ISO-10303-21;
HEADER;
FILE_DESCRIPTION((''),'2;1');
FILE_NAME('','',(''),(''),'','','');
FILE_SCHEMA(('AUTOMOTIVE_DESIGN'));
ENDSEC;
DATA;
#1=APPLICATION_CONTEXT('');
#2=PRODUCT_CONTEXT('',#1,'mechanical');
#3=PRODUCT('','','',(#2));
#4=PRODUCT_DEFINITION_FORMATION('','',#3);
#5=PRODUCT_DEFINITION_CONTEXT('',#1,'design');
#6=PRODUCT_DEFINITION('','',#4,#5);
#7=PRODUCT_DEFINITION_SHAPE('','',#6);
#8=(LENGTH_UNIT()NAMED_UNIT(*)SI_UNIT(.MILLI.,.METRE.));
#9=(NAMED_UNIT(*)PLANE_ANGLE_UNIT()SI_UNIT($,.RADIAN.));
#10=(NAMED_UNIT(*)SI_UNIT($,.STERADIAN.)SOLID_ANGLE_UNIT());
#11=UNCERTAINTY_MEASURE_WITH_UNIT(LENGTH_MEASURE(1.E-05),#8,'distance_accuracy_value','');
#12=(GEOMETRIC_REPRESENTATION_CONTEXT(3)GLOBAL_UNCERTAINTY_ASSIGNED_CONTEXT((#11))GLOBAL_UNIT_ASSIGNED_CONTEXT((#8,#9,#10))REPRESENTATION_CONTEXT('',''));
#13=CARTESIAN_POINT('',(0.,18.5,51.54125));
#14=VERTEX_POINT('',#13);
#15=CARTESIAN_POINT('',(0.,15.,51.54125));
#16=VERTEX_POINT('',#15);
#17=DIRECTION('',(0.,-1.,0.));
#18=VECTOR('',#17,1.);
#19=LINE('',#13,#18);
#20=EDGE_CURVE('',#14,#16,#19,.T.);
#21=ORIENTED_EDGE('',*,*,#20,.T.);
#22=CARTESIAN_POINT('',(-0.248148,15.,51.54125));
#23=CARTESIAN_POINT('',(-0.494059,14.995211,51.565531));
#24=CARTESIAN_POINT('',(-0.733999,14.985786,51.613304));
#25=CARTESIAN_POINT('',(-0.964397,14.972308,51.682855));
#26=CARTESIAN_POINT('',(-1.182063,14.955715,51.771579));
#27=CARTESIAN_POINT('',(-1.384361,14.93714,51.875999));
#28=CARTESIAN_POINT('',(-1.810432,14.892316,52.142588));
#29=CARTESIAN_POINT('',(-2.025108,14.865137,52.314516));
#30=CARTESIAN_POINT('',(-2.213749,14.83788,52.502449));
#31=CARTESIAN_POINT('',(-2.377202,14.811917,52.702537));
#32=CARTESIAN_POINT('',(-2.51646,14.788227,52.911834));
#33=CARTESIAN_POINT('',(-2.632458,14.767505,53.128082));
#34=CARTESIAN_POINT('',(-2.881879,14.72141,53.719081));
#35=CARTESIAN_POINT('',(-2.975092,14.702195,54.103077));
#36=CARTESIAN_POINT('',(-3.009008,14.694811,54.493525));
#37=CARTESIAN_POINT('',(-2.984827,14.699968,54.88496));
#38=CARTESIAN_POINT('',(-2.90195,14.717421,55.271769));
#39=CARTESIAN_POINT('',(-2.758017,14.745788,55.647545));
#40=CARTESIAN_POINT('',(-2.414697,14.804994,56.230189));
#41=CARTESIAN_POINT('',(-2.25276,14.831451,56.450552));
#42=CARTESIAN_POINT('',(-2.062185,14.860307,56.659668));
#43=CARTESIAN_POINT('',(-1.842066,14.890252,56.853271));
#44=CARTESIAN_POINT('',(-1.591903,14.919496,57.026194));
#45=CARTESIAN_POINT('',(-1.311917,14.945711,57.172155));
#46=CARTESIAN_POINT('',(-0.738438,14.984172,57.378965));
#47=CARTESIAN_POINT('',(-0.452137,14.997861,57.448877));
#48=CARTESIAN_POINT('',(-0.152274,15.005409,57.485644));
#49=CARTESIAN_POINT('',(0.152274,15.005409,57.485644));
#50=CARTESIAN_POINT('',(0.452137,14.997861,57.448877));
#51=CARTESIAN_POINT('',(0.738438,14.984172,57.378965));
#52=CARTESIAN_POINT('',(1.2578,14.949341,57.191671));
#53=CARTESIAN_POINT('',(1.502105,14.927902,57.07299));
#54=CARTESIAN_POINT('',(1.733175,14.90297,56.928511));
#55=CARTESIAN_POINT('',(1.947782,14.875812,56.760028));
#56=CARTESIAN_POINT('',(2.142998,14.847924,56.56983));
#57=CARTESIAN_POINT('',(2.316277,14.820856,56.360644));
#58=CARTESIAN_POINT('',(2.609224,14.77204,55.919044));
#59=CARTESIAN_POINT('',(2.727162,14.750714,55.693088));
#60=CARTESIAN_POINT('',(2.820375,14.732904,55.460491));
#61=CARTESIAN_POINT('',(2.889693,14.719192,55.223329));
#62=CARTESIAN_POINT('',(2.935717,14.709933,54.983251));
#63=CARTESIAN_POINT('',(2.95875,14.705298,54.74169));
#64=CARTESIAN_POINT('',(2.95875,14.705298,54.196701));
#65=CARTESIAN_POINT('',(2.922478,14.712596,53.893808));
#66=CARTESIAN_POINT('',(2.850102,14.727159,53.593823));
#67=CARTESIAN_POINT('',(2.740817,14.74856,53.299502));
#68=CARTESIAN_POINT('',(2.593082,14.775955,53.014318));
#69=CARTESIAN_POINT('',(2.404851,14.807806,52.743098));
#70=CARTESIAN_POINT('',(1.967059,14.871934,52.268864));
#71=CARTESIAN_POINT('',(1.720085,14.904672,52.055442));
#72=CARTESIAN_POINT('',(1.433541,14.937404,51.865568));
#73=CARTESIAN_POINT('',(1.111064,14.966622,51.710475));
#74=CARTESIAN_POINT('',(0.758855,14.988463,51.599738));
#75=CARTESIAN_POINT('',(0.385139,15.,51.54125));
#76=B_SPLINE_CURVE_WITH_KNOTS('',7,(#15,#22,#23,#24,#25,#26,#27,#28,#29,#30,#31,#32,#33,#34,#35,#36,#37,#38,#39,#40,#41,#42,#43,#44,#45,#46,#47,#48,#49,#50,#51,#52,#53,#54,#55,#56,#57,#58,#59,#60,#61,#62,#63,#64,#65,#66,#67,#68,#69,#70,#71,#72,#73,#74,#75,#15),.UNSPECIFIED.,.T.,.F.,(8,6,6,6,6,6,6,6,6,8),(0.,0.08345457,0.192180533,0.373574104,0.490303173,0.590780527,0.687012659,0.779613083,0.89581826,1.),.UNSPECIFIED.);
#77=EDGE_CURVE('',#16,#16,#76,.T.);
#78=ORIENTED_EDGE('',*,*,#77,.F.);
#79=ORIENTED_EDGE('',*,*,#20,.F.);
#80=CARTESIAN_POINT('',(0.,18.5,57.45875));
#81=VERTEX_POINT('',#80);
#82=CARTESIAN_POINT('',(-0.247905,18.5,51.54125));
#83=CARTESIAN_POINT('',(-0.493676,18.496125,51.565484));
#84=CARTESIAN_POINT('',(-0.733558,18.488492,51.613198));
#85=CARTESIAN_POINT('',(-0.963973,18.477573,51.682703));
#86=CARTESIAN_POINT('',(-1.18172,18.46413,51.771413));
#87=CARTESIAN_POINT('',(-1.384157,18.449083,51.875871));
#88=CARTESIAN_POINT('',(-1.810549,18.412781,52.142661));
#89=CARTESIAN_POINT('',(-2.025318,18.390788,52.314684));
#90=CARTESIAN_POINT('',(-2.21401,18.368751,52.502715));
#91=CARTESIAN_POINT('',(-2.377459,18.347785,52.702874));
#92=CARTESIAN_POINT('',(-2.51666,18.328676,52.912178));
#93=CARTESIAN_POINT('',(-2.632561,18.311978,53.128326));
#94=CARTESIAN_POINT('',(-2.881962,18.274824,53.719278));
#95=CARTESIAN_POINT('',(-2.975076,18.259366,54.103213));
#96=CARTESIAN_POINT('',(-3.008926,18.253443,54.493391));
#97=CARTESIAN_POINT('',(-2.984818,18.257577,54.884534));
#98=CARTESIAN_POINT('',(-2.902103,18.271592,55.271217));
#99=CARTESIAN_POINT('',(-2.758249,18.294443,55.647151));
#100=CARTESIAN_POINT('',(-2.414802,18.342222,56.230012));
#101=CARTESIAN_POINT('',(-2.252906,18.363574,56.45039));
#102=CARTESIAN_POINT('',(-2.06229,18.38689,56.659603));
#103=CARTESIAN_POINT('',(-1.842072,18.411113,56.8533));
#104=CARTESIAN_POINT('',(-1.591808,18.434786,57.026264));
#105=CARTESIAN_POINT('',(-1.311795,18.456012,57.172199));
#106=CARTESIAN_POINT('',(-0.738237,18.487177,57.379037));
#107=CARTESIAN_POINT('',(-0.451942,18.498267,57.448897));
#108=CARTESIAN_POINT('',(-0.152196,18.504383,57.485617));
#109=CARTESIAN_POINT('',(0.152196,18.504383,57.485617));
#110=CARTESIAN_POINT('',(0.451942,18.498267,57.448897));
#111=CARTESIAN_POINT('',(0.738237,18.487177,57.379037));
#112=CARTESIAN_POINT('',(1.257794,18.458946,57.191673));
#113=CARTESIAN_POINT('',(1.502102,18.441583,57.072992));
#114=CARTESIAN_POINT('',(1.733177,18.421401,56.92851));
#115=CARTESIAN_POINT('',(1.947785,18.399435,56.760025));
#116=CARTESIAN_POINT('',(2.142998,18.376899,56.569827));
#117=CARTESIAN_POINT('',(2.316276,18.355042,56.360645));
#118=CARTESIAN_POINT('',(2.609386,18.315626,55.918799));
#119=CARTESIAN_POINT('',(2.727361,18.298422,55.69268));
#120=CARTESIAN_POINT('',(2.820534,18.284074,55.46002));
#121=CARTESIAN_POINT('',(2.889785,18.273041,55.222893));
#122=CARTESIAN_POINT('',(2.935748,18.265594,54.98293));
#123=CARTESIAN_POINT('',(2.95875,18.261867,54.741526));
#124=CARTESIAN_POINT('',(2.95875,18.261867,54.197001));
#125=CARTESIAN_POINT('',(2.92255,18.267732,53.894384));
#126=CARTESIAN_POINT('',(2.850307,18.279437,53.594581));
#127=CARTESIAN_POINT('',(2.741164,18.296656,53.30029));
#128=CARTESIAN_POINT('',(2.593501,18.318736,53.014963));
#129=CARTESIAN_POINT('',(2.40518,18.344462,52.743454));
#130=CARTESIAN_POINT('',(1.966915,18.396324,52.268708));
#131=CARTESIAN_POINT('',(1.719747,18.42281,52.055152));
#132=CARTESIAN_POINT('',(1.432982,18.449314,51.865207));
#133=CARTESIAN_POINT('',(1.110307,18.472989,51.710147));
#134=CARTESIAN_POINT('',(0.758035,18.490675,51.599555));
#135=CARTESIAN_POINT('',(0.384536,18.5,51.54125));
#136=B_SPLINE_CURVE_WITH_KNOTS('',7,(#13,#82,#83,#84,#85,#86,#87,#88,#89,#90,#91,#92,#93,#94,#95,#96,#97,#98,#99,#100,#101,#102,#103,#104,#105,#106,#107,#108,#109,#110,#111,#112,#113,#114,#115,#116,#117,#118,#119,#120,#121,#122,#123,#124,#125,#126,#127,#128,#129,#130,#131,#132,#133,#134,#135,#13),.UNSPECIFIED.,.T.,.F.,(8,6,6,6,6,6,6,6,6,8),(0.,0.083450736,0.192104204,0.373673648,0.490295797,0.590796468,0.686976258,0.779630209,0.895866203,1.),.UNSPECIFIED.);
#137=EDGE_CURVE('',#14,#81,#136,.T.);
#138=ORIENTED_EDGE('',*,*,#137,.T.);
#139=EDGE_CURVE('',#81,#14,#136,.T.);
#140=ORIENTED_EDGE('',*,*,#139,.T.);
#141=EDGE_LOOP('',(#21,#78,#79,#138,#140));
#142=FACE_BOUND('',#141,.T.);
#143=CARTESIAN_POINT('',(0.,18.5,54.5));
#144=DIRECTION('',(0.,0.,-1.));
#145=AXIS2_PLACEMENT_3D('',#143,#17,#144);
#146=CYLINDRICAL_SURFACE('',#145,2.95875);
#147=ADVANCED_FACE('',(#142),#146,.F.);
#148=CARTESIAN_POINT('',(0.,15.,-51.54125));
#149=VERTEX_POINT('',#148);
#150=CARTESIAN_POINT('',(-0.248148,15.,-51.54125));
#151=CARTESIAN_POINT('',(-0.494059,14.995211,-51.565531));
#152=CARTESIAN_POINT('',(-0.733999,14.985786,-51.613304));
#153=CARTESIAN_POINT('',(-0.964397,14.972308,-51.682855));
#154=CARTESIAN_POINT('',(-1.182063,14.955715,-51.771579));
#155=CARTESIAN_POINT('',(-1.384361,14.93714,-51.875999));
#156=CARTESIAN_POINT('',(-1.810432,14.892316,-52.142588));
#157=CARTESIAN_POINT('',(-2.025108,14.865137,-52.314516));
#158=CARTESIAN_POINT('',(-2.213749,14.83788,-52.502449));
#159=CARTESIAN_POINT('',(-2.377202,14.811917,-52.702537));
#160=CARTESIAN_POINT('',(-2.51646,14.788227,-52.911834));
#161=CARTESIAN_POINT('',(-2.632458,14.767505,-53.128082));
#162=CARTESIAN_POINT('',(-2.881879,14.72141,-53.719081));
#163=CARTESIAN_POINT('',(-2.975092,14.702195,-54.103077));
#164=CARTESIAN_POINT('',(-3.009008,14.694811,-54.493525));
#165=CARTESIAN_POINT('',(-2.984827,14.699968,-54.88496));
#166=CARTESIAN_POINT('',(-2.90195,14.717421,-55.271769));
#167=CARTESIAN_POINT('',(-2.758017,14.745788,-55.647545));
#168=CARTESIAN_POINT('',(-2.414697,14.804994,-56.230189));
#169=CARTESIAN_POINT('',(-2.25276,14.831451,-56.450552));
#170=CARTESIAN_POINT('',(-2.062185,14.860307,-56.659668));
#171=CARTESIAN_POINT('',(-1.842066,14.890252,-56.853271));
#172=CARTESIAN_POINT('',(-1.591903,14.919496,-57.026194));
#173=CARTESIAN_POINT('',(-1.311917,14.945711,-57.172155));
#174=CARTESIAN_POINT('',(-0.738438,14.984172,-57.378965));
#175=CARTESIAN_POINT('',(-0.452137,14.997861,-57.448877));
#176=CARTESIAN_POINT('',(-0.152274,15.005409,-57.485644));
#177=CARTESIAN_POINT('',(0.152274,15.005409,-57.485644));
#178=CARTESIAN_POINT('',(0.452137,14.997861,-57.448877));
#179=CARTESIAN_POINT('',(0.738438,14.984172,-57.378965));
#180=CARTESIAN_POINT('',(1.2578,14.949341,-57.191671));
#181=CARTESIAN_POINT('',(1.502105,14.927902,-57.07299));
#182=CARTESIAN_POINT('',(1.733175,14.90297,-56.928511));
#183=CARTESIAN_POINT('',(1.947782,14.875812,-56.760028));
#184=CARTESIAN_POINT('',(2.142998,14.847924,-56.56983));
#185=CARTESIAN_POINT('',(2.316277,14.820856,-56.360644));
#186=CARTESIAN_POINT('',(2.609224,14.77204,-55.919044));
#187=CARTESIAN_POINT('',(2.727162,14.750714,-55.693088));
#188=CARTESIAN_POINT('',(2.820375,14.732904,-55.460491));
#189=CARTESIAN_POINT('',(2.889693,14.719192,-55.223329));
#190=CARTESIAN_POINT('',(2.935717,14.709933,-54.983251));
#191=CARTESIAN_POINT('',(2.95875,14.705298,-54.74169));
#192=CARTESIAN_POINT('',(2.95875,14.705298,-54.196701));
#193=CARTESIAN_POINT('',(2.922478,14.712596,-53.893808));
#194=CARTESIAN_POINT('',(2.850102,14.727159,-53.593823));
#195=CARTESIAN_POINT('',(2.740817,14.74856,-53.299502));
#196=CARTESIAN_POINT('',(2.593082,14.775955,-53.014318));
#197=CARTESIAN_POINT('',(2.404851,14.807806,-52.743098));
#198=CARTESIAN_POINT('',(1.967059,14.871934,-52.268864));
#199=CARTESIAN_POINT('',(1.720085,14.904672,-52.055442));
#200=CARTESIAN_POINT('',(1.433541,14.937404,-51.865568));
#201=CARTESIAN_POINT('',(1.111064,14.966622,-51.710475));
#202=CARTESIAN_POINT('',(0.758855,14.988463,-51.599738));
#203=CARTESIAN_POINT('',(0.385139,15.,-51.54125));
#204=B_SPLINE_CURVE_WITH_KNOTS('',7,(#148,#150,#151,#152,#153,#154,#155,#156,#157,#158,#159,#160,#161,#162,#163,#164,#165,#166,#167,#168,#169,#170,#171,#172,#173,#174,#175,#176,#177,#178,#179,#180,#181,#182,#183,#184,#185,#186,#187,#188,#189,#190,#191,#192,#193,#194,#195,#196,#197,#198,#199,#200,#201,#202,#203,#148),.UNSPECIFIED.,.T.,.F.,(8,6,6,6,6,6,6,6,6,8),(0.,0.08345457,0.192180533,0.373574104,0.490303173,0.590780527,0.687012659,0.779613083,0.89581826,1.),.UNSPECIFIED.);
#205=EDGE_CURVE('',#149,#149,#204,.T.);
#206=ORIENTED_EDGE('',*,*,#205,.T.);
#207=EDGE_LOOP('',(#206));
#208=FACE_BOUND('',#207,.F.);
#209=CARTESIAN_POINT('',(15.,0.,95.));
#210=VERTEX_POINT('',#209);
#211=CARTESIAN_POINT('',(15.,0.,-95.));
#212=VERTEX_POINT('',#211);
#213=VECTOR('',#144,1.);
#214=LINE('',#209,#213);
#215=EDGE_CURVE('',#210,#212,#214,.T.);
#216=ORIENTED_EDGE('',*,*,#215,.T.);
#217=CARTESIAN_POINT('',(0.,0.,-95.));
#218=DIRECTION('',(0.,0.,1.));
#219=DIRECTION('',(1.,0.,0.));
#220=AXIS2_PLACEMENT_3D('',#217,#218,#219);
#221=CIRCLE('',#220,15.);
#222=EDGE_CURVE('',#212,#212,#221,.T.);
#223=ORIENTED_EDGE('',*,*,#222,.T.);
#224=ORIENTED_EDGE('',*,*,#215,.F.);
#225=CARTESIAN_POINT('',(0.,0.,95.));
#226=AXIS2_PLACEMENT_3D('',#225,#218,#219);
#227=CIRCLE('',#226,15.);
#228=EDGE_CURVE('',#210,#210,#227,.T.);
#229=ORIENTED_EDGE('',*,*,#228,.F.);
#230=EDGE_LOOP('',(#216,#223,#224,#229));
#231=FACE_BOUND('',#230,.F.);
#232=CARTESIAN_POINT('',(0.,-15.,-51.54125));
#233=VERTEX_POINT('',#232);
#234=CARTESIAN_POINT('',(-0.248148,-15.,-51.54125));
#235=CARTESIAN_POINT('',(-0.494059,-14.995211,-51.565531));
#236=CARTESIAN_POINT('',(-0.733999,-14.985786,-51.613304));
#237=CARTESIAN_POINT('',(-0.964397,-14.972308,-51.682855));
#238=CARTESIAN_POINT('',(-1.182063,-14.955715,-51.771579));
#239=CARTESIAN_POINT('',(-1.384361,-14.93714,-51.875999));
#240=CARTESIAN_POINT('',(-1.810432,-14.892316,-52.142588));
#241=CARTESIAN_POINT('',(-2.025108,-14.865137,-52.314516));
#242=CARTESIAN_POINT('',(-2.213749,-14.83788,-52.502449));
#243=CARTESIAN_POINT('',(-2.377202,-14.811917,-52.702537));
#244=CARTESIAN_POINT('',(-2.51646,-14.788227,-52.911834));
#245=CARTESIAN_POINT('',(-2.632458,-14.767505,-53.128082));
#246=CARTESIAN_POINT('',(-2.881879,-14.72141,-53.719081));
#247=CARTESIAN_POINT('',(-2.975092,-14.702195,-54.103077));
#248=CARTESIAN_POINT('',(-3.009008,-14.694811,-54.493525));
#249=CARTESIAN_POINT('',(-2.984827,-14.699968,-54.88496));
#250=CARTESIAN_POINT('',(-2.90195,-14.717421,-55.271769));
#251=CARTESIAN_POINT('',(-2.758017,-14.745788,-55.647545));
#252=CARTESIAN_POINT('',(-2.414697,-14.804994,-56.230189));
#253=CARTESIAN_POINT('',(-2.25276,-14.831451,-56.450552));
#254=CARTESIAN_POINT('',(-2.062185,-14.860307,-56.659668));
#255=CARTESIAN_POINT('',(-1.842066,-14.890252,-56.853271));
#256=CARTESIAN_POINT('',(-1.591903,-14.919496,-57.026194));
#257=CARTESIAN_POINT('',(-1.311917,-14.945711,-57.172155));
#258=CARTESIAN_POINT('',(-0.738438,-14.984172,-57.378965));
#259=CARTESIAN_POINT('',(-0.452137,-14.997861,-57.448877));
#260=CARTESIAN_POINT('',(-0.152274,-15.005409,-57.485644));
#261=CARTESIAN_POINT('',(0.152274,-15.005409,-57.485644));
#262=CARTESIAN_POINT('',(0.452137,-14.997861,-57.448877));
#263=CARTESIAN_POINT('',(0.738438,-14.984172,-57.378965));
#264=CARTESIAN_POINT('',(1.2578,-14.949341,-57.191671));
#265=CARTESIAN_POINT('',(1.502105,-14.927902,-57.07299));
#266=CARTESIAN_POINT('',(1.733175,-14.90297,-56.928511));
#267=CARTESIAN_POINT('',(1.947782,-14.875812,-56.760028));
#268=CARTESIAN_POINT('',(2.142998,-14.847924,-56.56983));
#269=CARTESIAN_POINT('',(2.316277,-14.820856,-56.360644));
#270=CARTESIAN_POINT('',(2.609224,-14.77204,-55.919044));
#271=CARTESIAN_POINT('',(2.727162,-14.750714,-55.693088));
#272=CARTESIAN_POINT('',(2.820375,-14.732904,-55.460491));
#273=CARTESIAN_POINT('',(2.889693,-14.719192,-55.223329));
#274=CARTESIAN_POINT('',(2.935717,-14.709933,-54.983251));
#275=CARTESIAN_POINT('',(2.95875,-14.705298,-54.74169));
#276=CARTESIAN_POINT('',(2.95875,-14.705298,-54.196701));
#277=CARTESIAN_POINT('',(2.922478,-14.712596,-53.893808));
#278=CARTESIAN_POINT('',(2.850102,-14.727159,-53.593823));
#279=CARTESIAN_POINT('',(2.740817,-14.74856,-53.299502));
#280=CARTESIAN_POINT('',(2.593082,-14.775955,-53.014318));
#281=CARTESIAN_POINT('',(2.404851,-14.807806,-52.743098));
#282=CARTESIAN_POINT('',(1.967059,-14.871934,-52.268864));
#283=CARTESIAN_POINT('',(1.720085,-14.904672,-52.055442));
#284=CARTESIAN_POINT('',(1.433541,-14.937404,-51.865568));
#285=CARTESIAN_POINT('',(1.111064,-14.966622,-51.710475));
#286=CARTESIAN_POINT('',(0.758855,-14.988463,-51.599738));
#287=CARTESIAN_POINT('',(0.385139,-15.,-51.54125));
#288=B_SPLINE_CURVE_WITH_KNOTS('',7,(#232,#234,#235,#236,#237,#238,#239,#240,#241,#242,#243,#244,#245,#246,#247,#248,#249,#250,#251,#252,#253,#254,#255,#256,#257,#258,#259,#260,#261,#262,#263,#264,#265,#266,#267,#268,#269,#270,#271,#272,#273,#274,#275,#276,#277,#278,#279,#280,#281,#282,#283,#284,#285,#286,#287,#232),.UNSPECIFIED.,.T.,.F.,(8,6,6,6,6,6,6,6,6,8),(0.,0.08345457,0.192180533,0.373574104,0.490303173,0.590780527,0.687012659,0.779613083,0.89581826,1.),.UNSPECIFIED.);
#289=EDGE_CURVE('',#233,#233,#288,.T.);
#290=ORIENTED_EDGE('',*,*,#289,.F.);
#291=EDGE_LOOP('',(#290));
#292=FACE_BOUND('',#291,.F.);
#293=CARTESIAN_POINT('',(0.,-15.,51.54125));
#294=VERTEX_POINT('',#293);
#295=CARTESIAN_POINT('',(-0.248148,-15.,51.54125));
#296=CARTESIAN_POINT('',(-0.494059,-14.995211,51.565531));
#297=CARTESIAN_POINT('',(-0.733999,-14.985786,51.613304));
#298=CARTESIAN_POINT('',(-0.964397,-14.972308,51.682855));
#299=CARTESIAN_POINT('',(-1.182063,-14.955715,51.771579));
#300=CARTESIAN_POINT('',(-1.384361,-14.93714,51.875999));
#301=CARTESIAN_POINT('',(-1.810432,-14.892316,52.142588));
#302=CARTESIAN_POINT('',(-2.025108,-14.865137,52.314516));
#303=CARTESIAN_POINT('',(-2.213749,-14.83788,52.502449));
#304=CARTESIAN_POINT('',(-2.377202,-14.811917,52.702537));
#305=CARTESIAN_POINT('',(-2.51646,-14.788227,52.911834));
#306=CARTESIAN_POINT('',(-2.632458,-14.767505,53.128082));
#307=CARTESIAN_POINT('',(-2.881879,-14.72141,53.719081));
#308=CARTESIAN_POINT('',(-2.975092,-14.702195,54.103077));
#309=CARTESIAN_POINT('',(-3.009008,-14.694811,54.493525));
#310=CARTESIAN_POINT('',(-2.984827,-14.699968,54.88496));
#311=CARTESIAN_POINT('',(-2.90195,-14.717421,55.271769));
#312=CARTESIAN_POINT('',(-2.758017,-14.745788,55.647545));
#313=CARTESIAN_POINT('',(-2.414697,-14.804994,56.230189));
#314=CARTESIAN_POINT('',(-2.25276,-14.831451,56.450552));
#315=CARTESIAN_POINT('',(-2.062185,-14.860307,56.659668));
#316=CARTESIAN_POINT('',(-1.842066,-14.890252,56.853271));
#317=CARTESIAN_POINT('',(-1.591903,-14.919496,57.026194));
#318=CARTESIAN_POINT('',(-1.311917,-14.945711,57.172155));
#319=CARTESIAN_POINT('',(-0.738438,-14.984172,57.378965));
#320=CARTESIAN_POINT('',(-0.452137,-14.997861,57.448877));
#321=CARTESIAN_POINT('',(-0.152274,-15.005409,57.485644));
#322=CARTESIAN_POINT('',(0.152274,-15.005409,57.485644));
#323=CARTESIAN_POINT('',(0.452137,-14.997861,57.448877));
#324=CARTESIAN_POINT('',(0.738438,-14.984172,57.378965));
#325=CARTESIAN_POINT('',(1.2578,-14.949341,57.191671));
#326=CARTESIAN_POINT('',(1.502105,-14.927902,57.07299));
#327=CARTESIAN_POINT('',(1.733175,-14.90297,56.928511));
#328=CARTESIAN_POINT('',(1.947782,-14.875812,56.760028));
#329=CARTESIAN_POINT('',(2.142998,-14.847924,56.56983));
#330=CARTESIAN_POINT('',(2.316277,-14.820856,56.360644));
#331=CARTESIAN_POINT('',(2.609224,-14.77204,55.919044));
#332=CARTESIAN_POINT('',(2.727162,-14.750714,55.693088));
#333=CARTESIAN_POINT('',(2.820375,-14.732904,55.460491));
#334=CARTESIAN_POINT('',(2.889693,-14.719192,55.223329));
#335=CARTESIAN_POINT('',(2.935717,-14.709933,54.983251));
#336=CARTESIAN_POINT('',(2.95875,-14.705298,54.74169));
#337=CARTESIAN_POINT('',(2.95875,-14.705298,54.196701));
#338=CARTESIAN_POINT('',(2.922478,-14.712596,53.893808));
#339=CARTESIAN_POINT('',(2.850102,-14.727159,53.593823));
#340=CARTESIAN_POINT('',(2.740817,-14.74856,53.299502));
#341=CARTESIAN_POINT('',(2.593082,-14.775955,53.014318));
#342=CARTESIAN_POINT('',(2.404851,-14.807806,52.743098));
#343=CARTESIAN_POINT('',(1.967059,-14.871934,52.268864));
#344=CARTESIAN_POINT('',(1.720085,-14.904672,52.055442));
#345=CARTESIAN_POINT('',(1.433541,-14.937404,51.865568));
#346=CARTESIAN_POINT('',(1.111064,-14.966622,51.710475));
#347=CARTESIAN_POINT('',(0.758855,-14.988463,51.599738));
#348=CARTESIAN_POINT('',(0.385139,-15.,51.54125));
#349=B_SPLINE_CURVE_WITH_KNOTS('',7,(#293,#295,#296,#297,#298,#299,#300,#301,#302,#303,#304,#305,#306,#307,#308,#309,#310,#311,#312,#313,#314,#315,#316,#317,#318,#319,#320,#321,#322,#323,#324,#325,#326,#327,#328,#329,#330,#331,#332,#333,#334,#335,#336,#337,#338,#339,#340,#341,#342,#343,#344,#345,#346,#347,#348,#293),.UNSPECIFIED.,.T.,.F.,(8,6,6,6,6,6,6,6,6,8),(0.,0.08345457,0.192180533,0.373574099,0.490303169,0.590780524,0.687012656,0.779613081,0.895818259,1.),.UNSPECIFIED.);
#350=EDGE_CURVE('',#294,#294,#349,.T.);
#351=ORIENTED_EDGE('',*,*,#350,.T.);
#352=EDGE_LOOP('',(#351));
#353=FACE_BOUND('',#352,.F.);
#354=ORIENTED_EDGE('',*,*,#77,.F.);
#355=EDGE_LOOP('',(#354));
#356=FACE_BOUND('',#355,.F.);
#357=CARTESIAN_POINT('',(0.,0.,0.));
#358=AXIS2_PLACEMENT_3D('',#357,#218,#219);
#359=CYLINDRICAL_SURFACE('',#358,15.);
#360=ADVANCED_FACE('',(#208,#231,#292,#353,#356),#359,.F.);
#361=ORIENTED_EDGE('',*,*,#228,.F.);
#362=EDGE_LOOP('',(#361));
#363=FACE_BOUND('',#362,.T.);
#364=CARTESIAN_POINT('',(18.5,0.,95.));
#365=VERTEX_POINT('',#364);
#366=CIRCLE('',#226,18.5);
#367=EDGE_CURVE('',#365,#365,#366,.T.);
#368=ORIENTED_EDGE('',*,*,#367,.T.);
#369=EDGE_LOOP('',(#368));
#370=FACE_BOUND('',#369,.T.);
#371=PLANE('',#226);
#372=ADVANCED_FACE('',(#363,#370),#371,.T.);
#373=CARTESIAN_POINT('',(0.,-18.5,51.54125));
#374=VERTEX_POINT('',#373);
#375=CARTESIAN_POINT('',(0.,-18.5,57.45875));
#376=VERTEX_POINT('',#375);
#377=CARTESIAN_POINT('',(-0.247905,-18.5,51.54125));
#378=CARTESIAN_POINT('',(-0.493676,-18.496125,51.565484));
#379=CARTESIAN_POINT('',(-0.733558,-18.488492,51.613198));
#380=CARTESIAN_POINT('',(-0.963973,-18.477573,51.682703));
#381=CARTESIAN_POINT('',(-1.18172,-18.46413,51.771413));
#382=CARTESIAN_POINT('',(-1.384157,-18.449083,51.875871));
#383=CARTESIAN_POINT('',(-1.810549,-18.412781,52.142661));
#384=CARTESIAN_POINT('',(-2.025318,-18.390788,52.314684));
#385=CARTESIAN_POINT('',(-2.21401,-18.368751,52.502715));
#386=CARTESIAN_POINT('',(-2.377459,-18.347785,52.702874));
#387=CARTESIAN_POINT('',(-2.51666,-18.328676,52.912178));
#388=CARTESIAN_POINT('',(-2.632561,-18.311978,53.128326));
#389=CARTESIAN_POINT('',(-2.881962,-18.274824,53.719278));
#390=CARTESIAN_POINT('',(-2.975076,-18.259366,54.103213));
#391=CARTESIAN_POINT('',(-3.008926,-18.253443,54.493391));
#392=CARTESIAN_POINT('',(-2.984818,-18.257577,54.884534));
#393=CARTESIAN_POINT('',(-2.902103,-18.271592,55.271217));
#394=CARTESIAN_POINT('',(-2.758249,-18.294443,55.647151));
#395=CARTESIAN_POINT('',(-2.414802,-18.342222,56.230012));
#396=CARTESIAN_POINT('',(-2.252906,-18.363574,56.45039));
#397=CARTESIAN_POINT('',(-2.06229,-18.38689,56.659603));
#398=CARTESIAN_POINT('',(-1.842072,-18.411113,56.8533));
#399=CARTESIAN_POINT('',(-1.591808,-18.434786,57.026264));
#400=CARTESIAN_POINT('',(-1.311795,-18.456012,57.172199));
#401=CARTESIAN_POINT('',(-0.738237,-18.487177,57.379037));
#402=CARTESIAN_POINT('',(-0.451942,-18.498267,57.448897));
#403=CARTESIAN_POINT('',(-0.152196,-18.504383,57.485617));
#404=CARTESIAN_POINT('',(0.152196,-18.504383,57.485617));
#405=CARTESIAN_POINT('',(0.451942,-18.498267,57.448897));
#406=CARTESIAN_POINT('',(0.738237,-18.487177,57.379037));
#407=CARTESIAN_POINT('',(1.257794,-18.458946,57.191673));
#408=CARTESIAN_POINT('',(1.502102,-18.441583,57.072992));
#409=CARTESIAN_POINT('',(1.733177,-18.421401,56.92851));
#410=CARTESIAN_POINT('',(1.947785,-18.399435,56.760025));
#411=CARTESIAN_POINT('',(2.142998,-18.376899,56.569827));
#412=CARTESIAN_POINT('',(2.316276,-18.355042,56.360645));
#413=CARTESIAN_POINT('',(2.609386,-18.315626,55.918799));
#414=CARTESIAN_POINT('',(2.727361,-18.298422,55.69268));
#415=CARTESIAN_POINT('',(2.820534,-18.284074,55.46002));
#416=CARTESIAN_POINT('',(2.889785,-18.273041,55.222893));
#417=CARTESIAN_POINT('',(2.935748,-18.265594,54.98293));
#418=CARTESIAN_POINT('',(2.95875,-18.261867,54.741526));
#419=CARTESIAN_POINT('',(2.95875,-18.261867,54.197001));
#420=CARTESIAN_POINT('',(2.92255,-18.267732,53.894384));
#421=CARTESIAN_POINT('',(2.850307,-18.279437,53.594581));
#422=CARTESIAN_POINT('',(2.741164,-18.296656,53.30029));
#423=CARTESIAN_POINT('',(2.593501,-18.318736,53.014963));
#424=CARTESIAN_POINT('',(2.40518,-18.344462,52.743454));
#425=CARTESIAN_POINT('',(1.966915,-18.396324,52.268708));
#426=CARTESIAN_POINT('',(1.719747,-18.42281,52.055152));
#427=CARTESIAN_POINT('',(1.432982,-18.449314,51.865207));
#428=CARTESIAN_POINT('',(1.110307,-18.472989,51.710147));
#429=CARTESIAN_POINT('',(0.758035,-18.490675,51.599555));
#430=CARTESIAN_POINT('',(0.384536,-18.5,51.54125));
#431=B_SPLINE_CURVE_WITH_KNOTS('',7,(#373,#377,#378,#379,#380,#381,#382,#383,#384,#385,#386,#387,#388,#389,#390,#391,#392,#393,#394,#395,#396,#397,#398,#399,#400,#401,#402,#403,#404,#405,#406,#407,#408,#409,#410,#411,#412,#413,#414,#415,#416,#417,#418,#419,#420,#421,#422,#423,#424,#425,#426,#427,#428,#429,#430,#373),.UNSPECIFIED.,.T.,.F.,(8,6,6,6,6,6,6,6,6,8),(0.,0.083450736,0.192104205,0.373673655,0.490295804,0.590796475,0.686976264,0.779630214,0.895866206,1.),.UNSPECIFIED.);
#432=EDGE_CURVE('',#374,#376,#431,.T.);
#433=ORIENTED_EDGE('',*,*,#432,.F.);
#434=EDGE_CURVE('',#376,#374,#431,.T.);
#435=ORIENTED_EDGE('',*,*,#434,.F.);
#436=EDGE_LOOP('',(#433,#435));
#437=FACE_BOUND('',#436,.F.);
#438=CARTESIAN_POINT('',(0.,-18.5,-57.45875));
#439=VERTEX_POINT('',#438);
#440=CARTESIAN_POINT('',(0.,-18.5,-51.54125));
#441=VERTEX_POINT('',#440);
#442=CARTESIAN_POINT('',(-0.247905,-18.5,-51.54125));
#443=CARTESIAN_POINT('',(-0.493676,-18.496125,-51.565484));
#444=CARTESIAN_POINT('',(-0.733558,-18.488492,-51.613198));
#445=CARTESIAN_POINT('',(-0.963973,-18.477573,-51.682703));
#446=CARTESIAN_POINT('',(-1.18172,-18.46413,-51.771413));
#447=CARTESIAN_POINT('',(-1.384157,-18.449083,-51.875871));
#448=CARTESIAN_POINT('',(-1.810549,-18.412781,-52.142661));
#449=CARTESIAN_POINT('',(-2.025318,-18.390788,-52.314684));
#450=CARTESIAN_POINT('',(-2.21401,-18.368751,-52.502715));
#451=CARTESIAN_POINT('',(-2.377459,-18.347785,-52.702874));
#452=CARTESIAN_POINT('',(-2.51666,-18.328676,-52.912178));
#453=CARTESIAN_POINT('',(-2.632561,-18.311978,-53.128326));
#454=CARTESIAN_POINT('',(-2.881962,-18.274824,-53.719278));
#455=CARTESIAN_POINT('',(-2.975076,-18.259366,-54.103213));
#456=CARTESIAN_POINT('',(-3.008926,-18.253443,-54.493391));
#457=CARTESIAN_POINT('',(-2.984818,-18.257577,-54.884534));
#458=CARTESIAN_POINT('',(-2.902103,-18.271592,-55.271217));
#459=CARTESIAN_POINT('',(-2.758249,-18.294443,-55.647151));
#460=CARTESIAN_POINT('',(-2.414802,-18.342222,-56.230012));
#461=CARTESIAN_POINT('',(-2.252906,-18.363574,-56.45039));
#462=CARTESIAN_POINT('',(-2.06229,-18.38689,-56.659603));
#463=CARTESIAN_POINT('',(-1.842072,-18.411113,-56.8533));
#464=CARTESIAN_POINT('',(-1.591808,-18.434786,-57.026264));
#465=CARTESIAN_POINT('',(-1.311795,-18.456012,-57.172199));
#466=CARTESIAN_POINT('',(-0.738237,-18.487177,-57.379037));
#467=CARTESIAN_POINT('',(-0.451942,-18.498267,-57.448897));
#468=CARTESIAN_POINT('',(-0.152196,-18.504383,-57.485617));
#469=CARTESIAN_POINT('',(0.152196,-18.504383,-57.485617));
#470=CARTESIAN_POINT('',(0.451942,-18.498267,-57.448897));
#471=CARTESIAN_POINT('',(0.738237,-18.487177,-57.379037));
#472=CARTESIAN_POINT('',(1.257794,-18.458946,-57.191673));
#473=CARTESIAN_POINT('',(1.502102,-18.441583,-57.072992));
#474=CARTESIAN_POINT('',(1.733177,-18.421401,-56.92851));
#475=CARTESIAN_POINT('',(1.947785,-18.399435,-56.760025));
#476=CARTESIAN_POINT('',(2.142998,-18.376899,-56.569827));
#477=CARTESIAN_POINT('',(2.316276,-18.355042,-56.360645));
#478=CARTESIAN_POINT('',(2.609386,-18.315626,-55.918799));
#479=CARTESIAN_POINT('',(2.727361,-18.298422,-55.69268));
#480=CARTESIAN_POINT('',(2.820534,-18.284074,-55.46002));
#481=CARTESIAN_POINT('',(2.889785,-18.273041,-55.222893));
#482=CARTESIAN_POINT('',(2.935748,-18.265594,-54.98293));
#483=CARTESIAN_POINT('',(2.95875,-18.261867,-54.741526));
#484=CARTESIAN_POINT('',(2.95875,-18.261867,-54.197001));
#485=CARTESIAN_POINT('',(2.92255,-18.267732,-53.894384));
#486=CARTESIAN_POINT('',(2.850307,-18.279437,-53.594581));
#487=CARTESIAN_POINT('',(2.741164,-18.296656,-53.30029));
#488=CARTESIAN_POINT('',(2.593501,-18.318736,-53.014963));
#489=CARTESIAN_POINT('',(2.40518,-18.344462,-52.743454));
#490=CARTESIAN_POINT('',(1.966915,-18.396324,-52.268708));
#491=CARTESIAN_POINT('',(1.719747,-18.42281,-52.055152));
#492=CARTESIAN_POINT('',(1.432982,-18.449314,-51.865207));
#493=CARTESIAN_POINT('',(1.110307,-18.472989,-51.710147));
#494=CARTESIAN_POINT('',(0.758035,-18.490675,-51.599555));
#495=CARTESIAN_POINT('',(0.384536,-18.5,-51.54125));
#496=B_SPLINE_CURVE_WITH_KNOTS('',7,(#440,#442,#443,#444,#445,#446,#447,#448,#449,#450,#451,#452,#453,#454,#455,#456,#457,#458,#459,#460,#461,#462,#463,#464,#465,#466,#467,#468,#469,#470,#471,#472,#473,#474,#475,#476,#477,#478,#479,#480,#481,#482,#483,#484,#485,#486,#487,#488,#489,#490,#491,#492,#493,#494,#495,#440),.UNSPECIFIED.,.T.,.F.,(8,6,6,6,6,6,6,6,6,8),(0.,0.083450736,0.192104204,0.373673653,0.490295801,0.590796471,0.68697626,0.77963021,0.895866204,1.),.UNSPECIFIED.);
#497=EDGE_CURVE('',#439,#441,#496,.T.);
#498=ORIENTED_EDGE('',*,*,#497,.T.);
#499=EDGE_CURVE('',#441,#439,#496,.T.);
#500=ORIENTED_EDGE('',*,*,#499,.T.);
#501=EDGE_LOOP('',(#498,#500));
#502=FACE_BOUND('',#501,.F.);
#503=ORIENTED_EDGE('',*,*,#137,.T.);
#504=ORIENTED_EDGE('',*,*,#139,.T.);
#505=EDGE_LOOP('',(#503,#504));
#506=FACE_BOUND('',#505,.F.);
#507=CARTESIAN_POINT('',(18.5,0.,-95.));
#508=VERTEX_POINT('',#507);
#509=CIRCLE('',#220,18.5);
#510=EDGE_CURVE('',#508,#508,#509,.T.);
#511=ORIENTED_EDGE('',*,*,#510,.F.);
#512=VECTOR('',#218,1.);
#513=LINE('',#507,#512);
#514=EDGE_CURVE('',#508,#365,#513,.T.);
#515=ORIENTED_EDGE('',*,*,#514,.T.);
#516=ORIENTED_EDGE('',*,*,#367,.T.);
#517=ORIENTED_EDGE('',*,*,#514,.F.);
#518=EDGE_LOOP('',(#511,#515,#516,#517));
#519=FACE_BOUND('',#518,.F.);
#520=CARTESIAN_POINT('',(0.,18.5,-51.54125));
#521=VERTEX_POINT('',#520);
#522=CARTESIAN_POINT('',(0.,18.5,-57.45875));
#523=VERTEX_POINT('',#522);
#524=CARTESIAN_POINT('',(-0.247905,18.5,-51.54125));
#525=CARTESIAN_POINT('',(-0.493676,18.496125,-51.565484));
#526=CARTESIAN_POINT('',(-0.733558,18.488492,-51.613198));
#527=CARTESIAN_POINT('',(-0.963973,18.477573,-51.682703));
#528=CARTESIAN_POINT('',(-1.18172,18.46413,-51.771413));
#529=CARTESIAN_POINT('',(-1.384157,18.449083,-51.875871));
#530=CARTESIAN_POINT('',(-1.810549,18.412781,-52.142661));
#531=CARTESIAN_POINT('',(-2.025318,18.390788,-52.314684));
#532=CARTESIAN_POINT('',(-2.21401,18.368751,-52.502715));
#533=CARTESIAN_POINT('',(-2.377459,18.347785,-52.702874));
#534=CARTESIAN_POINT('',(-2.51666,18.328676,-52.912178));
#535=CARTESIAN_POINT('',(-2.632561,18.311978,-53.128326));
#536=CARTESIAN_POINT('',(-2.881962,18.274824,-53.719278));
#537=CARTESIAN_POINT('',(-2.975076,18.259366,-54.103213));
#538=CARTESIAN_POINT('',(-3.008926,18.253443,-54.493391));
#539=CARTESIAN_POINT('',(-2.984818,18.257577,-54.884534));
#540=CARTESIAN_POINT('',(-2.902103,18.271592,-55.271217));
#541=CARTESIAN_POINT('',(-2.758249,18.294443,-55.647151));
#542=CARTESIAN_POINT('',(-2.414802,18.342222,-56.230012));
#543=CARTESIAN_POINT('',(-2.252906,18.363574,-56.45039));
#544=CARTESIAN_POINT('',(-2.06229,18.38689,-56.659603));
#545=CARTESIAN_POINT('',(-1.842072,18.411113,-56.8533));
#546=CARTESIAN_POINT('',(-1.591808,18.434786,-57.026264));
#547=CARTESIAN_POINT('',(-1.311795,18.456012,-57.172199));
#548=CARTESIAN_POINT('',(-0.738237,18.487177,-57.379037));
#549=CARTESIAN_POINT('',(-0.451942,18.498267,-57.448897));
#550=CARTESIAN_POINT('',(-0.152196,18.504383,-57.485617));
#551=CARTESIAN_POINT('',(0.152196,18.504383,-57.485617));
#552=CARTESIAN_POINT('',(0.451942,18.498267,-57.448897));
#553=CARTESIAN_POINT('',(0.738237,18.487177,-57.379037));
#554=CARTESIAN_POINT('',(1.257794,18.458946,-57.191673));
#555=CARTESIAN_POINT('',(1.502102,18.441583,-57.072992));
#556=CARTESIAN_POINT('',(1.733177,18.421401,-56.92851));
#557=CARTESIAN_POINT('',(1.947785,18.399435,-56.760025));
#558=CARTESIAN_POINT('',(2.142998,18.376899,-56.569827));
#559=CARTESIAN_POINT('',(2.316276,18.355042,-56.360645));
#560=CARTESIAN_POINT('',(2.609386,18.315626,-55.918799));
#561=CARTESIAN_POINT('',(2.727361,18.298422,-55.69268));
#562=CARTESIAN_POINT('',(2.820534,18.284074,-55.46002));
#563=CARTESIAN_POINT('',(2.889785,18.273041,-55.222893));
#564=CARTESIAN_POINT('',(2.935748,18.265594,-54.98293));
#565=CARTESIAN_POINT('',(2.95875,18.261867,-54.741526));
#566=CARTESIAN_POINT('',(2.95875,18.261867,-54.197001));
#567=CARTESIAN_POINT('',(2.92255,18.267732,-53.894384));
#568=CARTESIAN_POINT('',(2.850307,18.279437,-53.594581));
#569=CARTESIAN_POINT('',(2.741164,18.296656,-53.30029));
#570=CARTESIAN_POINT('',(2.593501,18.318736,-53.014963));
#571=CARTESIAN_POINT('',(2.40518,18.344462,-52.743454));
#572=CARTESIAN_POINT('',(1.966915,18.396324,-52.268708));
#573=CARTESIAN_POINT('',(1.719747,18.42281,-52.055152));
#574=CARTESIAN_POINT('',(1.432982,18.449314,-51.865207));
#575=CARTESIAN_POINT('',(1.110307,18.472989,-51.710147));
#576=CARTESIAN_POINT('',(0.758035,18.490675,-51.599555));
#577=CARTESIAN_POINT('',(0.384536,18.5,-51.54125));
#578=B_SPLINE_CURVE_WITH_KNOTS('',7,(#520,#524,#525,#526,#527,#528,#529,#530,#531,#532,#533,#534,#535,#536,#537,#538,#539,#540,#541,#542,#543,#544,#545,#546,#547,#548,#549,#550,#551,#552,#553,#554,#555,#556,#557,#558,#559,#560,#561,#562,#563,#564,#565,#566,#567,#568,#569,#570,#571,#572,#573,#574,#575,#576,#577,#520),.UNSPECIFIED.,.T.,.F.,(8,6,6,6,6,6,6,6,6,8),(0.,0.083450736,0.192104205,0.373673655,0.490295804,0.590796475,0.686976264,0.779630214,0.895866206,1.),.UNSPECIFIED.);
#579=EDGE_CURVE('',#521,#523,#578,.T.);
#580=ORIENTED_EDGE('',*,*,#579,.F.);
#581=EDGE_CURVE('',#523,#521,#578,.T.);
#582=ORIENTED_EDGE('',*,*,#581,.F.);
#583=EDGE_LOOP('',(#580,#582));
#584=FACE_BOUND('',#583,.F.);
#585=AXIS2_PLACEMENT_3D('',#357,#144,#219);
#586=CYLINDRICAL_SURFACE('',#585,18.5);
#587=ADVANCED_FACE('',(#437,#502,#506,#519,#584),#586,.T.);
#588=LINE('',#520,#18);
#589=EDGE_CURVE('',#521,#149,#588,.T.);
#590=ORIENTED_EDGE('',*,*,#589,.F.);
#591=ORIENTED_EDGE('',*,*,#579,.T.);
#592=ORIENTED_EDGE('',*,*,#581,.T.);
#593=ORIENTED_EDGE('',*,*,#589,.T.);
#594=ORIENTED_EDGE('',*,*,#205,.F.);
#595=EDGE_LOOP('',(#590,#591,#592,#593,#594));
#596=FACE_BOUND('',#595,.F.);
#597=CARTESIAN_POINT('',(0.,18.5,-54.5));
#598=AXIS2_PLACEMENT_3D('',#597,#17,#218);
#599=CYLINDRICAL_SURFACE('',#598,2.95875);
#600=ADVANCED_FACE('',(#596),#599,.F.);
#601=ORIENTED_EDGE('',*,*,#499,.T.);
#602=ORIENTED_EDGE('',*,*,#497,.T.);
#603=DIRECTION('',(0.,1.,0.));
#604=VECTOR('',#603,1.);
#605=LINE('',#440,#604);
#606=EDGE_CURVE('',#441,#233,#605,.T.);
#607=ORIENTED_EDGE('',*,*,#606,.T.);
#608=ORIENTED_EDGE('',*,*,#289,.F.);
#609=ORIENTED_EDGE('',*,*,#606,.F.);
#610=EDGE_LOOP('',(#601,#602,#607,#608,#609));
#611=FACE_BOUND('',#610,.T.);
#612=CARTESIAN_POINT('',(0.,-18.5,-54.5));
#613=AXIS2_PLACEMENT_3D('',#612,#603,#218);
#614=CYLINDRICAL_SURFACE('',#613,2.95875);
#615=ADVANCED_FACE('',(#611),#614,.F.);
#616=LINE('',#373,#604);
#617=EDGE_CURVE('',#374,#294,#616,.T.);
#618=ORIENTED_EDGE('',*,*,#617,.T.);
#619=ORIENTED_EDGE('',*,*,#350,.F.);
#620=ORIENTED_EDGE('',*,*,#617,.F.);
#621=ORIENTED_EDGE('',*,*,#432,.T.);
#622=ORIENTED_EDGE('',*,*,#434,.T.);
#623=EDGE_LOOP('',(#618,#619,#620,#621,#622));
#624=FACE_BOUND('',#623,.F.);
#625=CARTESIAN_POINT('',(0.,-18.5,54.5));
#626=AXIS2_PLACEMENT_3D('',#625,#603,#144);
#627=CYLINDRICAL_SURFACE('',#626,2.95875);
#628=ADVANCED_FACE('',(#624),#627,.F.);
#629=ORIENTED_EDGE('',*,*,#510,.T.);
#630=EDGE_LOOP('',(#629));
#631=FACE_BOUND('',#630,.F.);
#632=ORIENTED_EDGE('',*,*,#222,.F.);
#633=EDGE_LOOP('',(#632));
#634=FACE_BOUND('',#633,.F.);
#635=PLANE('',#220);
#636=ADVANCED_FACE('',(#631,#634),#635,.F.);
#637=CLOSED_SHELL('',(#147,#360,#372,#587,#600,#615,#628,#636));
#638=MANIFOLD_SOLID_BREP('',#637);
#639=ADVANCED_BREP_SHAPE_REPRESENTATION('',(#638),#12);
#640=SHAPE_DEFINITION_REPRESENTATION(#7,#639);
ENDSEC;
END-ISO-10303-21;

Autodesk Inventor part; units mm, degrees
ref_plane "YZ Plane" through (0, 0, 0) normal (1, 0, 0) x (0, 1, 0)
ref_plane "XZ Plane" through (0, 0, 0) normal (0, 1, 0) x (-1, 0, 0)
sketch "Sketch1" plane through (0, 0, 0) normal (0, 0, 1) x (1, 0, 0)
  circle A0 centre (0, 0) radius 18.5
  circle A1 centre (0, 0) radius 15
  dimension "d0" = 37
  dimension "d1" = 30
extrude "Extrusion1" add sketch "Sketch1" along normal mid plane 190
ref_plane "Work Plane4" through (0, 18.5, 0) normal (0, 1, 0) x (-1, 0, 0)
sketch "Sketch4" plane through (0, 18.5, 0) normal (0, 1, 0) x (-1, 0, 0)
  line L0 (-18.5, -95) -> (18.5, -95) projected
  line L1 (18.5, -95) -> (18.5, 95) projected
  line L2 (-18.5, -95) -> (18.5, -95) projected
  line L3 (18.5, 95) -> (-18.5, 95) projected
  point P0 (0, 0)
  point P1 (0, -54.5)
  dimension "d14" = 40.5
  dimension "d22" = 190
  dimension "d23" = 18.5
hole "Hole1" at (0, 18.5, -54.5) direction (0, -1, 0) diameter 5.9175 depth 19.1 tip angle 118 thread size "M7x1" class "6H" standard "ISO Metric profile"
mirror "Mirror1" about plane through (0, 0, 0) normal (0, 0, 1) of "Hole1"
mirror "Mirror2" about plane through (0, 0, 0) normal (0, 1, 0) of "Hole1", "Mirror1"
properties part number "EjeRodilla" material "PLA"
